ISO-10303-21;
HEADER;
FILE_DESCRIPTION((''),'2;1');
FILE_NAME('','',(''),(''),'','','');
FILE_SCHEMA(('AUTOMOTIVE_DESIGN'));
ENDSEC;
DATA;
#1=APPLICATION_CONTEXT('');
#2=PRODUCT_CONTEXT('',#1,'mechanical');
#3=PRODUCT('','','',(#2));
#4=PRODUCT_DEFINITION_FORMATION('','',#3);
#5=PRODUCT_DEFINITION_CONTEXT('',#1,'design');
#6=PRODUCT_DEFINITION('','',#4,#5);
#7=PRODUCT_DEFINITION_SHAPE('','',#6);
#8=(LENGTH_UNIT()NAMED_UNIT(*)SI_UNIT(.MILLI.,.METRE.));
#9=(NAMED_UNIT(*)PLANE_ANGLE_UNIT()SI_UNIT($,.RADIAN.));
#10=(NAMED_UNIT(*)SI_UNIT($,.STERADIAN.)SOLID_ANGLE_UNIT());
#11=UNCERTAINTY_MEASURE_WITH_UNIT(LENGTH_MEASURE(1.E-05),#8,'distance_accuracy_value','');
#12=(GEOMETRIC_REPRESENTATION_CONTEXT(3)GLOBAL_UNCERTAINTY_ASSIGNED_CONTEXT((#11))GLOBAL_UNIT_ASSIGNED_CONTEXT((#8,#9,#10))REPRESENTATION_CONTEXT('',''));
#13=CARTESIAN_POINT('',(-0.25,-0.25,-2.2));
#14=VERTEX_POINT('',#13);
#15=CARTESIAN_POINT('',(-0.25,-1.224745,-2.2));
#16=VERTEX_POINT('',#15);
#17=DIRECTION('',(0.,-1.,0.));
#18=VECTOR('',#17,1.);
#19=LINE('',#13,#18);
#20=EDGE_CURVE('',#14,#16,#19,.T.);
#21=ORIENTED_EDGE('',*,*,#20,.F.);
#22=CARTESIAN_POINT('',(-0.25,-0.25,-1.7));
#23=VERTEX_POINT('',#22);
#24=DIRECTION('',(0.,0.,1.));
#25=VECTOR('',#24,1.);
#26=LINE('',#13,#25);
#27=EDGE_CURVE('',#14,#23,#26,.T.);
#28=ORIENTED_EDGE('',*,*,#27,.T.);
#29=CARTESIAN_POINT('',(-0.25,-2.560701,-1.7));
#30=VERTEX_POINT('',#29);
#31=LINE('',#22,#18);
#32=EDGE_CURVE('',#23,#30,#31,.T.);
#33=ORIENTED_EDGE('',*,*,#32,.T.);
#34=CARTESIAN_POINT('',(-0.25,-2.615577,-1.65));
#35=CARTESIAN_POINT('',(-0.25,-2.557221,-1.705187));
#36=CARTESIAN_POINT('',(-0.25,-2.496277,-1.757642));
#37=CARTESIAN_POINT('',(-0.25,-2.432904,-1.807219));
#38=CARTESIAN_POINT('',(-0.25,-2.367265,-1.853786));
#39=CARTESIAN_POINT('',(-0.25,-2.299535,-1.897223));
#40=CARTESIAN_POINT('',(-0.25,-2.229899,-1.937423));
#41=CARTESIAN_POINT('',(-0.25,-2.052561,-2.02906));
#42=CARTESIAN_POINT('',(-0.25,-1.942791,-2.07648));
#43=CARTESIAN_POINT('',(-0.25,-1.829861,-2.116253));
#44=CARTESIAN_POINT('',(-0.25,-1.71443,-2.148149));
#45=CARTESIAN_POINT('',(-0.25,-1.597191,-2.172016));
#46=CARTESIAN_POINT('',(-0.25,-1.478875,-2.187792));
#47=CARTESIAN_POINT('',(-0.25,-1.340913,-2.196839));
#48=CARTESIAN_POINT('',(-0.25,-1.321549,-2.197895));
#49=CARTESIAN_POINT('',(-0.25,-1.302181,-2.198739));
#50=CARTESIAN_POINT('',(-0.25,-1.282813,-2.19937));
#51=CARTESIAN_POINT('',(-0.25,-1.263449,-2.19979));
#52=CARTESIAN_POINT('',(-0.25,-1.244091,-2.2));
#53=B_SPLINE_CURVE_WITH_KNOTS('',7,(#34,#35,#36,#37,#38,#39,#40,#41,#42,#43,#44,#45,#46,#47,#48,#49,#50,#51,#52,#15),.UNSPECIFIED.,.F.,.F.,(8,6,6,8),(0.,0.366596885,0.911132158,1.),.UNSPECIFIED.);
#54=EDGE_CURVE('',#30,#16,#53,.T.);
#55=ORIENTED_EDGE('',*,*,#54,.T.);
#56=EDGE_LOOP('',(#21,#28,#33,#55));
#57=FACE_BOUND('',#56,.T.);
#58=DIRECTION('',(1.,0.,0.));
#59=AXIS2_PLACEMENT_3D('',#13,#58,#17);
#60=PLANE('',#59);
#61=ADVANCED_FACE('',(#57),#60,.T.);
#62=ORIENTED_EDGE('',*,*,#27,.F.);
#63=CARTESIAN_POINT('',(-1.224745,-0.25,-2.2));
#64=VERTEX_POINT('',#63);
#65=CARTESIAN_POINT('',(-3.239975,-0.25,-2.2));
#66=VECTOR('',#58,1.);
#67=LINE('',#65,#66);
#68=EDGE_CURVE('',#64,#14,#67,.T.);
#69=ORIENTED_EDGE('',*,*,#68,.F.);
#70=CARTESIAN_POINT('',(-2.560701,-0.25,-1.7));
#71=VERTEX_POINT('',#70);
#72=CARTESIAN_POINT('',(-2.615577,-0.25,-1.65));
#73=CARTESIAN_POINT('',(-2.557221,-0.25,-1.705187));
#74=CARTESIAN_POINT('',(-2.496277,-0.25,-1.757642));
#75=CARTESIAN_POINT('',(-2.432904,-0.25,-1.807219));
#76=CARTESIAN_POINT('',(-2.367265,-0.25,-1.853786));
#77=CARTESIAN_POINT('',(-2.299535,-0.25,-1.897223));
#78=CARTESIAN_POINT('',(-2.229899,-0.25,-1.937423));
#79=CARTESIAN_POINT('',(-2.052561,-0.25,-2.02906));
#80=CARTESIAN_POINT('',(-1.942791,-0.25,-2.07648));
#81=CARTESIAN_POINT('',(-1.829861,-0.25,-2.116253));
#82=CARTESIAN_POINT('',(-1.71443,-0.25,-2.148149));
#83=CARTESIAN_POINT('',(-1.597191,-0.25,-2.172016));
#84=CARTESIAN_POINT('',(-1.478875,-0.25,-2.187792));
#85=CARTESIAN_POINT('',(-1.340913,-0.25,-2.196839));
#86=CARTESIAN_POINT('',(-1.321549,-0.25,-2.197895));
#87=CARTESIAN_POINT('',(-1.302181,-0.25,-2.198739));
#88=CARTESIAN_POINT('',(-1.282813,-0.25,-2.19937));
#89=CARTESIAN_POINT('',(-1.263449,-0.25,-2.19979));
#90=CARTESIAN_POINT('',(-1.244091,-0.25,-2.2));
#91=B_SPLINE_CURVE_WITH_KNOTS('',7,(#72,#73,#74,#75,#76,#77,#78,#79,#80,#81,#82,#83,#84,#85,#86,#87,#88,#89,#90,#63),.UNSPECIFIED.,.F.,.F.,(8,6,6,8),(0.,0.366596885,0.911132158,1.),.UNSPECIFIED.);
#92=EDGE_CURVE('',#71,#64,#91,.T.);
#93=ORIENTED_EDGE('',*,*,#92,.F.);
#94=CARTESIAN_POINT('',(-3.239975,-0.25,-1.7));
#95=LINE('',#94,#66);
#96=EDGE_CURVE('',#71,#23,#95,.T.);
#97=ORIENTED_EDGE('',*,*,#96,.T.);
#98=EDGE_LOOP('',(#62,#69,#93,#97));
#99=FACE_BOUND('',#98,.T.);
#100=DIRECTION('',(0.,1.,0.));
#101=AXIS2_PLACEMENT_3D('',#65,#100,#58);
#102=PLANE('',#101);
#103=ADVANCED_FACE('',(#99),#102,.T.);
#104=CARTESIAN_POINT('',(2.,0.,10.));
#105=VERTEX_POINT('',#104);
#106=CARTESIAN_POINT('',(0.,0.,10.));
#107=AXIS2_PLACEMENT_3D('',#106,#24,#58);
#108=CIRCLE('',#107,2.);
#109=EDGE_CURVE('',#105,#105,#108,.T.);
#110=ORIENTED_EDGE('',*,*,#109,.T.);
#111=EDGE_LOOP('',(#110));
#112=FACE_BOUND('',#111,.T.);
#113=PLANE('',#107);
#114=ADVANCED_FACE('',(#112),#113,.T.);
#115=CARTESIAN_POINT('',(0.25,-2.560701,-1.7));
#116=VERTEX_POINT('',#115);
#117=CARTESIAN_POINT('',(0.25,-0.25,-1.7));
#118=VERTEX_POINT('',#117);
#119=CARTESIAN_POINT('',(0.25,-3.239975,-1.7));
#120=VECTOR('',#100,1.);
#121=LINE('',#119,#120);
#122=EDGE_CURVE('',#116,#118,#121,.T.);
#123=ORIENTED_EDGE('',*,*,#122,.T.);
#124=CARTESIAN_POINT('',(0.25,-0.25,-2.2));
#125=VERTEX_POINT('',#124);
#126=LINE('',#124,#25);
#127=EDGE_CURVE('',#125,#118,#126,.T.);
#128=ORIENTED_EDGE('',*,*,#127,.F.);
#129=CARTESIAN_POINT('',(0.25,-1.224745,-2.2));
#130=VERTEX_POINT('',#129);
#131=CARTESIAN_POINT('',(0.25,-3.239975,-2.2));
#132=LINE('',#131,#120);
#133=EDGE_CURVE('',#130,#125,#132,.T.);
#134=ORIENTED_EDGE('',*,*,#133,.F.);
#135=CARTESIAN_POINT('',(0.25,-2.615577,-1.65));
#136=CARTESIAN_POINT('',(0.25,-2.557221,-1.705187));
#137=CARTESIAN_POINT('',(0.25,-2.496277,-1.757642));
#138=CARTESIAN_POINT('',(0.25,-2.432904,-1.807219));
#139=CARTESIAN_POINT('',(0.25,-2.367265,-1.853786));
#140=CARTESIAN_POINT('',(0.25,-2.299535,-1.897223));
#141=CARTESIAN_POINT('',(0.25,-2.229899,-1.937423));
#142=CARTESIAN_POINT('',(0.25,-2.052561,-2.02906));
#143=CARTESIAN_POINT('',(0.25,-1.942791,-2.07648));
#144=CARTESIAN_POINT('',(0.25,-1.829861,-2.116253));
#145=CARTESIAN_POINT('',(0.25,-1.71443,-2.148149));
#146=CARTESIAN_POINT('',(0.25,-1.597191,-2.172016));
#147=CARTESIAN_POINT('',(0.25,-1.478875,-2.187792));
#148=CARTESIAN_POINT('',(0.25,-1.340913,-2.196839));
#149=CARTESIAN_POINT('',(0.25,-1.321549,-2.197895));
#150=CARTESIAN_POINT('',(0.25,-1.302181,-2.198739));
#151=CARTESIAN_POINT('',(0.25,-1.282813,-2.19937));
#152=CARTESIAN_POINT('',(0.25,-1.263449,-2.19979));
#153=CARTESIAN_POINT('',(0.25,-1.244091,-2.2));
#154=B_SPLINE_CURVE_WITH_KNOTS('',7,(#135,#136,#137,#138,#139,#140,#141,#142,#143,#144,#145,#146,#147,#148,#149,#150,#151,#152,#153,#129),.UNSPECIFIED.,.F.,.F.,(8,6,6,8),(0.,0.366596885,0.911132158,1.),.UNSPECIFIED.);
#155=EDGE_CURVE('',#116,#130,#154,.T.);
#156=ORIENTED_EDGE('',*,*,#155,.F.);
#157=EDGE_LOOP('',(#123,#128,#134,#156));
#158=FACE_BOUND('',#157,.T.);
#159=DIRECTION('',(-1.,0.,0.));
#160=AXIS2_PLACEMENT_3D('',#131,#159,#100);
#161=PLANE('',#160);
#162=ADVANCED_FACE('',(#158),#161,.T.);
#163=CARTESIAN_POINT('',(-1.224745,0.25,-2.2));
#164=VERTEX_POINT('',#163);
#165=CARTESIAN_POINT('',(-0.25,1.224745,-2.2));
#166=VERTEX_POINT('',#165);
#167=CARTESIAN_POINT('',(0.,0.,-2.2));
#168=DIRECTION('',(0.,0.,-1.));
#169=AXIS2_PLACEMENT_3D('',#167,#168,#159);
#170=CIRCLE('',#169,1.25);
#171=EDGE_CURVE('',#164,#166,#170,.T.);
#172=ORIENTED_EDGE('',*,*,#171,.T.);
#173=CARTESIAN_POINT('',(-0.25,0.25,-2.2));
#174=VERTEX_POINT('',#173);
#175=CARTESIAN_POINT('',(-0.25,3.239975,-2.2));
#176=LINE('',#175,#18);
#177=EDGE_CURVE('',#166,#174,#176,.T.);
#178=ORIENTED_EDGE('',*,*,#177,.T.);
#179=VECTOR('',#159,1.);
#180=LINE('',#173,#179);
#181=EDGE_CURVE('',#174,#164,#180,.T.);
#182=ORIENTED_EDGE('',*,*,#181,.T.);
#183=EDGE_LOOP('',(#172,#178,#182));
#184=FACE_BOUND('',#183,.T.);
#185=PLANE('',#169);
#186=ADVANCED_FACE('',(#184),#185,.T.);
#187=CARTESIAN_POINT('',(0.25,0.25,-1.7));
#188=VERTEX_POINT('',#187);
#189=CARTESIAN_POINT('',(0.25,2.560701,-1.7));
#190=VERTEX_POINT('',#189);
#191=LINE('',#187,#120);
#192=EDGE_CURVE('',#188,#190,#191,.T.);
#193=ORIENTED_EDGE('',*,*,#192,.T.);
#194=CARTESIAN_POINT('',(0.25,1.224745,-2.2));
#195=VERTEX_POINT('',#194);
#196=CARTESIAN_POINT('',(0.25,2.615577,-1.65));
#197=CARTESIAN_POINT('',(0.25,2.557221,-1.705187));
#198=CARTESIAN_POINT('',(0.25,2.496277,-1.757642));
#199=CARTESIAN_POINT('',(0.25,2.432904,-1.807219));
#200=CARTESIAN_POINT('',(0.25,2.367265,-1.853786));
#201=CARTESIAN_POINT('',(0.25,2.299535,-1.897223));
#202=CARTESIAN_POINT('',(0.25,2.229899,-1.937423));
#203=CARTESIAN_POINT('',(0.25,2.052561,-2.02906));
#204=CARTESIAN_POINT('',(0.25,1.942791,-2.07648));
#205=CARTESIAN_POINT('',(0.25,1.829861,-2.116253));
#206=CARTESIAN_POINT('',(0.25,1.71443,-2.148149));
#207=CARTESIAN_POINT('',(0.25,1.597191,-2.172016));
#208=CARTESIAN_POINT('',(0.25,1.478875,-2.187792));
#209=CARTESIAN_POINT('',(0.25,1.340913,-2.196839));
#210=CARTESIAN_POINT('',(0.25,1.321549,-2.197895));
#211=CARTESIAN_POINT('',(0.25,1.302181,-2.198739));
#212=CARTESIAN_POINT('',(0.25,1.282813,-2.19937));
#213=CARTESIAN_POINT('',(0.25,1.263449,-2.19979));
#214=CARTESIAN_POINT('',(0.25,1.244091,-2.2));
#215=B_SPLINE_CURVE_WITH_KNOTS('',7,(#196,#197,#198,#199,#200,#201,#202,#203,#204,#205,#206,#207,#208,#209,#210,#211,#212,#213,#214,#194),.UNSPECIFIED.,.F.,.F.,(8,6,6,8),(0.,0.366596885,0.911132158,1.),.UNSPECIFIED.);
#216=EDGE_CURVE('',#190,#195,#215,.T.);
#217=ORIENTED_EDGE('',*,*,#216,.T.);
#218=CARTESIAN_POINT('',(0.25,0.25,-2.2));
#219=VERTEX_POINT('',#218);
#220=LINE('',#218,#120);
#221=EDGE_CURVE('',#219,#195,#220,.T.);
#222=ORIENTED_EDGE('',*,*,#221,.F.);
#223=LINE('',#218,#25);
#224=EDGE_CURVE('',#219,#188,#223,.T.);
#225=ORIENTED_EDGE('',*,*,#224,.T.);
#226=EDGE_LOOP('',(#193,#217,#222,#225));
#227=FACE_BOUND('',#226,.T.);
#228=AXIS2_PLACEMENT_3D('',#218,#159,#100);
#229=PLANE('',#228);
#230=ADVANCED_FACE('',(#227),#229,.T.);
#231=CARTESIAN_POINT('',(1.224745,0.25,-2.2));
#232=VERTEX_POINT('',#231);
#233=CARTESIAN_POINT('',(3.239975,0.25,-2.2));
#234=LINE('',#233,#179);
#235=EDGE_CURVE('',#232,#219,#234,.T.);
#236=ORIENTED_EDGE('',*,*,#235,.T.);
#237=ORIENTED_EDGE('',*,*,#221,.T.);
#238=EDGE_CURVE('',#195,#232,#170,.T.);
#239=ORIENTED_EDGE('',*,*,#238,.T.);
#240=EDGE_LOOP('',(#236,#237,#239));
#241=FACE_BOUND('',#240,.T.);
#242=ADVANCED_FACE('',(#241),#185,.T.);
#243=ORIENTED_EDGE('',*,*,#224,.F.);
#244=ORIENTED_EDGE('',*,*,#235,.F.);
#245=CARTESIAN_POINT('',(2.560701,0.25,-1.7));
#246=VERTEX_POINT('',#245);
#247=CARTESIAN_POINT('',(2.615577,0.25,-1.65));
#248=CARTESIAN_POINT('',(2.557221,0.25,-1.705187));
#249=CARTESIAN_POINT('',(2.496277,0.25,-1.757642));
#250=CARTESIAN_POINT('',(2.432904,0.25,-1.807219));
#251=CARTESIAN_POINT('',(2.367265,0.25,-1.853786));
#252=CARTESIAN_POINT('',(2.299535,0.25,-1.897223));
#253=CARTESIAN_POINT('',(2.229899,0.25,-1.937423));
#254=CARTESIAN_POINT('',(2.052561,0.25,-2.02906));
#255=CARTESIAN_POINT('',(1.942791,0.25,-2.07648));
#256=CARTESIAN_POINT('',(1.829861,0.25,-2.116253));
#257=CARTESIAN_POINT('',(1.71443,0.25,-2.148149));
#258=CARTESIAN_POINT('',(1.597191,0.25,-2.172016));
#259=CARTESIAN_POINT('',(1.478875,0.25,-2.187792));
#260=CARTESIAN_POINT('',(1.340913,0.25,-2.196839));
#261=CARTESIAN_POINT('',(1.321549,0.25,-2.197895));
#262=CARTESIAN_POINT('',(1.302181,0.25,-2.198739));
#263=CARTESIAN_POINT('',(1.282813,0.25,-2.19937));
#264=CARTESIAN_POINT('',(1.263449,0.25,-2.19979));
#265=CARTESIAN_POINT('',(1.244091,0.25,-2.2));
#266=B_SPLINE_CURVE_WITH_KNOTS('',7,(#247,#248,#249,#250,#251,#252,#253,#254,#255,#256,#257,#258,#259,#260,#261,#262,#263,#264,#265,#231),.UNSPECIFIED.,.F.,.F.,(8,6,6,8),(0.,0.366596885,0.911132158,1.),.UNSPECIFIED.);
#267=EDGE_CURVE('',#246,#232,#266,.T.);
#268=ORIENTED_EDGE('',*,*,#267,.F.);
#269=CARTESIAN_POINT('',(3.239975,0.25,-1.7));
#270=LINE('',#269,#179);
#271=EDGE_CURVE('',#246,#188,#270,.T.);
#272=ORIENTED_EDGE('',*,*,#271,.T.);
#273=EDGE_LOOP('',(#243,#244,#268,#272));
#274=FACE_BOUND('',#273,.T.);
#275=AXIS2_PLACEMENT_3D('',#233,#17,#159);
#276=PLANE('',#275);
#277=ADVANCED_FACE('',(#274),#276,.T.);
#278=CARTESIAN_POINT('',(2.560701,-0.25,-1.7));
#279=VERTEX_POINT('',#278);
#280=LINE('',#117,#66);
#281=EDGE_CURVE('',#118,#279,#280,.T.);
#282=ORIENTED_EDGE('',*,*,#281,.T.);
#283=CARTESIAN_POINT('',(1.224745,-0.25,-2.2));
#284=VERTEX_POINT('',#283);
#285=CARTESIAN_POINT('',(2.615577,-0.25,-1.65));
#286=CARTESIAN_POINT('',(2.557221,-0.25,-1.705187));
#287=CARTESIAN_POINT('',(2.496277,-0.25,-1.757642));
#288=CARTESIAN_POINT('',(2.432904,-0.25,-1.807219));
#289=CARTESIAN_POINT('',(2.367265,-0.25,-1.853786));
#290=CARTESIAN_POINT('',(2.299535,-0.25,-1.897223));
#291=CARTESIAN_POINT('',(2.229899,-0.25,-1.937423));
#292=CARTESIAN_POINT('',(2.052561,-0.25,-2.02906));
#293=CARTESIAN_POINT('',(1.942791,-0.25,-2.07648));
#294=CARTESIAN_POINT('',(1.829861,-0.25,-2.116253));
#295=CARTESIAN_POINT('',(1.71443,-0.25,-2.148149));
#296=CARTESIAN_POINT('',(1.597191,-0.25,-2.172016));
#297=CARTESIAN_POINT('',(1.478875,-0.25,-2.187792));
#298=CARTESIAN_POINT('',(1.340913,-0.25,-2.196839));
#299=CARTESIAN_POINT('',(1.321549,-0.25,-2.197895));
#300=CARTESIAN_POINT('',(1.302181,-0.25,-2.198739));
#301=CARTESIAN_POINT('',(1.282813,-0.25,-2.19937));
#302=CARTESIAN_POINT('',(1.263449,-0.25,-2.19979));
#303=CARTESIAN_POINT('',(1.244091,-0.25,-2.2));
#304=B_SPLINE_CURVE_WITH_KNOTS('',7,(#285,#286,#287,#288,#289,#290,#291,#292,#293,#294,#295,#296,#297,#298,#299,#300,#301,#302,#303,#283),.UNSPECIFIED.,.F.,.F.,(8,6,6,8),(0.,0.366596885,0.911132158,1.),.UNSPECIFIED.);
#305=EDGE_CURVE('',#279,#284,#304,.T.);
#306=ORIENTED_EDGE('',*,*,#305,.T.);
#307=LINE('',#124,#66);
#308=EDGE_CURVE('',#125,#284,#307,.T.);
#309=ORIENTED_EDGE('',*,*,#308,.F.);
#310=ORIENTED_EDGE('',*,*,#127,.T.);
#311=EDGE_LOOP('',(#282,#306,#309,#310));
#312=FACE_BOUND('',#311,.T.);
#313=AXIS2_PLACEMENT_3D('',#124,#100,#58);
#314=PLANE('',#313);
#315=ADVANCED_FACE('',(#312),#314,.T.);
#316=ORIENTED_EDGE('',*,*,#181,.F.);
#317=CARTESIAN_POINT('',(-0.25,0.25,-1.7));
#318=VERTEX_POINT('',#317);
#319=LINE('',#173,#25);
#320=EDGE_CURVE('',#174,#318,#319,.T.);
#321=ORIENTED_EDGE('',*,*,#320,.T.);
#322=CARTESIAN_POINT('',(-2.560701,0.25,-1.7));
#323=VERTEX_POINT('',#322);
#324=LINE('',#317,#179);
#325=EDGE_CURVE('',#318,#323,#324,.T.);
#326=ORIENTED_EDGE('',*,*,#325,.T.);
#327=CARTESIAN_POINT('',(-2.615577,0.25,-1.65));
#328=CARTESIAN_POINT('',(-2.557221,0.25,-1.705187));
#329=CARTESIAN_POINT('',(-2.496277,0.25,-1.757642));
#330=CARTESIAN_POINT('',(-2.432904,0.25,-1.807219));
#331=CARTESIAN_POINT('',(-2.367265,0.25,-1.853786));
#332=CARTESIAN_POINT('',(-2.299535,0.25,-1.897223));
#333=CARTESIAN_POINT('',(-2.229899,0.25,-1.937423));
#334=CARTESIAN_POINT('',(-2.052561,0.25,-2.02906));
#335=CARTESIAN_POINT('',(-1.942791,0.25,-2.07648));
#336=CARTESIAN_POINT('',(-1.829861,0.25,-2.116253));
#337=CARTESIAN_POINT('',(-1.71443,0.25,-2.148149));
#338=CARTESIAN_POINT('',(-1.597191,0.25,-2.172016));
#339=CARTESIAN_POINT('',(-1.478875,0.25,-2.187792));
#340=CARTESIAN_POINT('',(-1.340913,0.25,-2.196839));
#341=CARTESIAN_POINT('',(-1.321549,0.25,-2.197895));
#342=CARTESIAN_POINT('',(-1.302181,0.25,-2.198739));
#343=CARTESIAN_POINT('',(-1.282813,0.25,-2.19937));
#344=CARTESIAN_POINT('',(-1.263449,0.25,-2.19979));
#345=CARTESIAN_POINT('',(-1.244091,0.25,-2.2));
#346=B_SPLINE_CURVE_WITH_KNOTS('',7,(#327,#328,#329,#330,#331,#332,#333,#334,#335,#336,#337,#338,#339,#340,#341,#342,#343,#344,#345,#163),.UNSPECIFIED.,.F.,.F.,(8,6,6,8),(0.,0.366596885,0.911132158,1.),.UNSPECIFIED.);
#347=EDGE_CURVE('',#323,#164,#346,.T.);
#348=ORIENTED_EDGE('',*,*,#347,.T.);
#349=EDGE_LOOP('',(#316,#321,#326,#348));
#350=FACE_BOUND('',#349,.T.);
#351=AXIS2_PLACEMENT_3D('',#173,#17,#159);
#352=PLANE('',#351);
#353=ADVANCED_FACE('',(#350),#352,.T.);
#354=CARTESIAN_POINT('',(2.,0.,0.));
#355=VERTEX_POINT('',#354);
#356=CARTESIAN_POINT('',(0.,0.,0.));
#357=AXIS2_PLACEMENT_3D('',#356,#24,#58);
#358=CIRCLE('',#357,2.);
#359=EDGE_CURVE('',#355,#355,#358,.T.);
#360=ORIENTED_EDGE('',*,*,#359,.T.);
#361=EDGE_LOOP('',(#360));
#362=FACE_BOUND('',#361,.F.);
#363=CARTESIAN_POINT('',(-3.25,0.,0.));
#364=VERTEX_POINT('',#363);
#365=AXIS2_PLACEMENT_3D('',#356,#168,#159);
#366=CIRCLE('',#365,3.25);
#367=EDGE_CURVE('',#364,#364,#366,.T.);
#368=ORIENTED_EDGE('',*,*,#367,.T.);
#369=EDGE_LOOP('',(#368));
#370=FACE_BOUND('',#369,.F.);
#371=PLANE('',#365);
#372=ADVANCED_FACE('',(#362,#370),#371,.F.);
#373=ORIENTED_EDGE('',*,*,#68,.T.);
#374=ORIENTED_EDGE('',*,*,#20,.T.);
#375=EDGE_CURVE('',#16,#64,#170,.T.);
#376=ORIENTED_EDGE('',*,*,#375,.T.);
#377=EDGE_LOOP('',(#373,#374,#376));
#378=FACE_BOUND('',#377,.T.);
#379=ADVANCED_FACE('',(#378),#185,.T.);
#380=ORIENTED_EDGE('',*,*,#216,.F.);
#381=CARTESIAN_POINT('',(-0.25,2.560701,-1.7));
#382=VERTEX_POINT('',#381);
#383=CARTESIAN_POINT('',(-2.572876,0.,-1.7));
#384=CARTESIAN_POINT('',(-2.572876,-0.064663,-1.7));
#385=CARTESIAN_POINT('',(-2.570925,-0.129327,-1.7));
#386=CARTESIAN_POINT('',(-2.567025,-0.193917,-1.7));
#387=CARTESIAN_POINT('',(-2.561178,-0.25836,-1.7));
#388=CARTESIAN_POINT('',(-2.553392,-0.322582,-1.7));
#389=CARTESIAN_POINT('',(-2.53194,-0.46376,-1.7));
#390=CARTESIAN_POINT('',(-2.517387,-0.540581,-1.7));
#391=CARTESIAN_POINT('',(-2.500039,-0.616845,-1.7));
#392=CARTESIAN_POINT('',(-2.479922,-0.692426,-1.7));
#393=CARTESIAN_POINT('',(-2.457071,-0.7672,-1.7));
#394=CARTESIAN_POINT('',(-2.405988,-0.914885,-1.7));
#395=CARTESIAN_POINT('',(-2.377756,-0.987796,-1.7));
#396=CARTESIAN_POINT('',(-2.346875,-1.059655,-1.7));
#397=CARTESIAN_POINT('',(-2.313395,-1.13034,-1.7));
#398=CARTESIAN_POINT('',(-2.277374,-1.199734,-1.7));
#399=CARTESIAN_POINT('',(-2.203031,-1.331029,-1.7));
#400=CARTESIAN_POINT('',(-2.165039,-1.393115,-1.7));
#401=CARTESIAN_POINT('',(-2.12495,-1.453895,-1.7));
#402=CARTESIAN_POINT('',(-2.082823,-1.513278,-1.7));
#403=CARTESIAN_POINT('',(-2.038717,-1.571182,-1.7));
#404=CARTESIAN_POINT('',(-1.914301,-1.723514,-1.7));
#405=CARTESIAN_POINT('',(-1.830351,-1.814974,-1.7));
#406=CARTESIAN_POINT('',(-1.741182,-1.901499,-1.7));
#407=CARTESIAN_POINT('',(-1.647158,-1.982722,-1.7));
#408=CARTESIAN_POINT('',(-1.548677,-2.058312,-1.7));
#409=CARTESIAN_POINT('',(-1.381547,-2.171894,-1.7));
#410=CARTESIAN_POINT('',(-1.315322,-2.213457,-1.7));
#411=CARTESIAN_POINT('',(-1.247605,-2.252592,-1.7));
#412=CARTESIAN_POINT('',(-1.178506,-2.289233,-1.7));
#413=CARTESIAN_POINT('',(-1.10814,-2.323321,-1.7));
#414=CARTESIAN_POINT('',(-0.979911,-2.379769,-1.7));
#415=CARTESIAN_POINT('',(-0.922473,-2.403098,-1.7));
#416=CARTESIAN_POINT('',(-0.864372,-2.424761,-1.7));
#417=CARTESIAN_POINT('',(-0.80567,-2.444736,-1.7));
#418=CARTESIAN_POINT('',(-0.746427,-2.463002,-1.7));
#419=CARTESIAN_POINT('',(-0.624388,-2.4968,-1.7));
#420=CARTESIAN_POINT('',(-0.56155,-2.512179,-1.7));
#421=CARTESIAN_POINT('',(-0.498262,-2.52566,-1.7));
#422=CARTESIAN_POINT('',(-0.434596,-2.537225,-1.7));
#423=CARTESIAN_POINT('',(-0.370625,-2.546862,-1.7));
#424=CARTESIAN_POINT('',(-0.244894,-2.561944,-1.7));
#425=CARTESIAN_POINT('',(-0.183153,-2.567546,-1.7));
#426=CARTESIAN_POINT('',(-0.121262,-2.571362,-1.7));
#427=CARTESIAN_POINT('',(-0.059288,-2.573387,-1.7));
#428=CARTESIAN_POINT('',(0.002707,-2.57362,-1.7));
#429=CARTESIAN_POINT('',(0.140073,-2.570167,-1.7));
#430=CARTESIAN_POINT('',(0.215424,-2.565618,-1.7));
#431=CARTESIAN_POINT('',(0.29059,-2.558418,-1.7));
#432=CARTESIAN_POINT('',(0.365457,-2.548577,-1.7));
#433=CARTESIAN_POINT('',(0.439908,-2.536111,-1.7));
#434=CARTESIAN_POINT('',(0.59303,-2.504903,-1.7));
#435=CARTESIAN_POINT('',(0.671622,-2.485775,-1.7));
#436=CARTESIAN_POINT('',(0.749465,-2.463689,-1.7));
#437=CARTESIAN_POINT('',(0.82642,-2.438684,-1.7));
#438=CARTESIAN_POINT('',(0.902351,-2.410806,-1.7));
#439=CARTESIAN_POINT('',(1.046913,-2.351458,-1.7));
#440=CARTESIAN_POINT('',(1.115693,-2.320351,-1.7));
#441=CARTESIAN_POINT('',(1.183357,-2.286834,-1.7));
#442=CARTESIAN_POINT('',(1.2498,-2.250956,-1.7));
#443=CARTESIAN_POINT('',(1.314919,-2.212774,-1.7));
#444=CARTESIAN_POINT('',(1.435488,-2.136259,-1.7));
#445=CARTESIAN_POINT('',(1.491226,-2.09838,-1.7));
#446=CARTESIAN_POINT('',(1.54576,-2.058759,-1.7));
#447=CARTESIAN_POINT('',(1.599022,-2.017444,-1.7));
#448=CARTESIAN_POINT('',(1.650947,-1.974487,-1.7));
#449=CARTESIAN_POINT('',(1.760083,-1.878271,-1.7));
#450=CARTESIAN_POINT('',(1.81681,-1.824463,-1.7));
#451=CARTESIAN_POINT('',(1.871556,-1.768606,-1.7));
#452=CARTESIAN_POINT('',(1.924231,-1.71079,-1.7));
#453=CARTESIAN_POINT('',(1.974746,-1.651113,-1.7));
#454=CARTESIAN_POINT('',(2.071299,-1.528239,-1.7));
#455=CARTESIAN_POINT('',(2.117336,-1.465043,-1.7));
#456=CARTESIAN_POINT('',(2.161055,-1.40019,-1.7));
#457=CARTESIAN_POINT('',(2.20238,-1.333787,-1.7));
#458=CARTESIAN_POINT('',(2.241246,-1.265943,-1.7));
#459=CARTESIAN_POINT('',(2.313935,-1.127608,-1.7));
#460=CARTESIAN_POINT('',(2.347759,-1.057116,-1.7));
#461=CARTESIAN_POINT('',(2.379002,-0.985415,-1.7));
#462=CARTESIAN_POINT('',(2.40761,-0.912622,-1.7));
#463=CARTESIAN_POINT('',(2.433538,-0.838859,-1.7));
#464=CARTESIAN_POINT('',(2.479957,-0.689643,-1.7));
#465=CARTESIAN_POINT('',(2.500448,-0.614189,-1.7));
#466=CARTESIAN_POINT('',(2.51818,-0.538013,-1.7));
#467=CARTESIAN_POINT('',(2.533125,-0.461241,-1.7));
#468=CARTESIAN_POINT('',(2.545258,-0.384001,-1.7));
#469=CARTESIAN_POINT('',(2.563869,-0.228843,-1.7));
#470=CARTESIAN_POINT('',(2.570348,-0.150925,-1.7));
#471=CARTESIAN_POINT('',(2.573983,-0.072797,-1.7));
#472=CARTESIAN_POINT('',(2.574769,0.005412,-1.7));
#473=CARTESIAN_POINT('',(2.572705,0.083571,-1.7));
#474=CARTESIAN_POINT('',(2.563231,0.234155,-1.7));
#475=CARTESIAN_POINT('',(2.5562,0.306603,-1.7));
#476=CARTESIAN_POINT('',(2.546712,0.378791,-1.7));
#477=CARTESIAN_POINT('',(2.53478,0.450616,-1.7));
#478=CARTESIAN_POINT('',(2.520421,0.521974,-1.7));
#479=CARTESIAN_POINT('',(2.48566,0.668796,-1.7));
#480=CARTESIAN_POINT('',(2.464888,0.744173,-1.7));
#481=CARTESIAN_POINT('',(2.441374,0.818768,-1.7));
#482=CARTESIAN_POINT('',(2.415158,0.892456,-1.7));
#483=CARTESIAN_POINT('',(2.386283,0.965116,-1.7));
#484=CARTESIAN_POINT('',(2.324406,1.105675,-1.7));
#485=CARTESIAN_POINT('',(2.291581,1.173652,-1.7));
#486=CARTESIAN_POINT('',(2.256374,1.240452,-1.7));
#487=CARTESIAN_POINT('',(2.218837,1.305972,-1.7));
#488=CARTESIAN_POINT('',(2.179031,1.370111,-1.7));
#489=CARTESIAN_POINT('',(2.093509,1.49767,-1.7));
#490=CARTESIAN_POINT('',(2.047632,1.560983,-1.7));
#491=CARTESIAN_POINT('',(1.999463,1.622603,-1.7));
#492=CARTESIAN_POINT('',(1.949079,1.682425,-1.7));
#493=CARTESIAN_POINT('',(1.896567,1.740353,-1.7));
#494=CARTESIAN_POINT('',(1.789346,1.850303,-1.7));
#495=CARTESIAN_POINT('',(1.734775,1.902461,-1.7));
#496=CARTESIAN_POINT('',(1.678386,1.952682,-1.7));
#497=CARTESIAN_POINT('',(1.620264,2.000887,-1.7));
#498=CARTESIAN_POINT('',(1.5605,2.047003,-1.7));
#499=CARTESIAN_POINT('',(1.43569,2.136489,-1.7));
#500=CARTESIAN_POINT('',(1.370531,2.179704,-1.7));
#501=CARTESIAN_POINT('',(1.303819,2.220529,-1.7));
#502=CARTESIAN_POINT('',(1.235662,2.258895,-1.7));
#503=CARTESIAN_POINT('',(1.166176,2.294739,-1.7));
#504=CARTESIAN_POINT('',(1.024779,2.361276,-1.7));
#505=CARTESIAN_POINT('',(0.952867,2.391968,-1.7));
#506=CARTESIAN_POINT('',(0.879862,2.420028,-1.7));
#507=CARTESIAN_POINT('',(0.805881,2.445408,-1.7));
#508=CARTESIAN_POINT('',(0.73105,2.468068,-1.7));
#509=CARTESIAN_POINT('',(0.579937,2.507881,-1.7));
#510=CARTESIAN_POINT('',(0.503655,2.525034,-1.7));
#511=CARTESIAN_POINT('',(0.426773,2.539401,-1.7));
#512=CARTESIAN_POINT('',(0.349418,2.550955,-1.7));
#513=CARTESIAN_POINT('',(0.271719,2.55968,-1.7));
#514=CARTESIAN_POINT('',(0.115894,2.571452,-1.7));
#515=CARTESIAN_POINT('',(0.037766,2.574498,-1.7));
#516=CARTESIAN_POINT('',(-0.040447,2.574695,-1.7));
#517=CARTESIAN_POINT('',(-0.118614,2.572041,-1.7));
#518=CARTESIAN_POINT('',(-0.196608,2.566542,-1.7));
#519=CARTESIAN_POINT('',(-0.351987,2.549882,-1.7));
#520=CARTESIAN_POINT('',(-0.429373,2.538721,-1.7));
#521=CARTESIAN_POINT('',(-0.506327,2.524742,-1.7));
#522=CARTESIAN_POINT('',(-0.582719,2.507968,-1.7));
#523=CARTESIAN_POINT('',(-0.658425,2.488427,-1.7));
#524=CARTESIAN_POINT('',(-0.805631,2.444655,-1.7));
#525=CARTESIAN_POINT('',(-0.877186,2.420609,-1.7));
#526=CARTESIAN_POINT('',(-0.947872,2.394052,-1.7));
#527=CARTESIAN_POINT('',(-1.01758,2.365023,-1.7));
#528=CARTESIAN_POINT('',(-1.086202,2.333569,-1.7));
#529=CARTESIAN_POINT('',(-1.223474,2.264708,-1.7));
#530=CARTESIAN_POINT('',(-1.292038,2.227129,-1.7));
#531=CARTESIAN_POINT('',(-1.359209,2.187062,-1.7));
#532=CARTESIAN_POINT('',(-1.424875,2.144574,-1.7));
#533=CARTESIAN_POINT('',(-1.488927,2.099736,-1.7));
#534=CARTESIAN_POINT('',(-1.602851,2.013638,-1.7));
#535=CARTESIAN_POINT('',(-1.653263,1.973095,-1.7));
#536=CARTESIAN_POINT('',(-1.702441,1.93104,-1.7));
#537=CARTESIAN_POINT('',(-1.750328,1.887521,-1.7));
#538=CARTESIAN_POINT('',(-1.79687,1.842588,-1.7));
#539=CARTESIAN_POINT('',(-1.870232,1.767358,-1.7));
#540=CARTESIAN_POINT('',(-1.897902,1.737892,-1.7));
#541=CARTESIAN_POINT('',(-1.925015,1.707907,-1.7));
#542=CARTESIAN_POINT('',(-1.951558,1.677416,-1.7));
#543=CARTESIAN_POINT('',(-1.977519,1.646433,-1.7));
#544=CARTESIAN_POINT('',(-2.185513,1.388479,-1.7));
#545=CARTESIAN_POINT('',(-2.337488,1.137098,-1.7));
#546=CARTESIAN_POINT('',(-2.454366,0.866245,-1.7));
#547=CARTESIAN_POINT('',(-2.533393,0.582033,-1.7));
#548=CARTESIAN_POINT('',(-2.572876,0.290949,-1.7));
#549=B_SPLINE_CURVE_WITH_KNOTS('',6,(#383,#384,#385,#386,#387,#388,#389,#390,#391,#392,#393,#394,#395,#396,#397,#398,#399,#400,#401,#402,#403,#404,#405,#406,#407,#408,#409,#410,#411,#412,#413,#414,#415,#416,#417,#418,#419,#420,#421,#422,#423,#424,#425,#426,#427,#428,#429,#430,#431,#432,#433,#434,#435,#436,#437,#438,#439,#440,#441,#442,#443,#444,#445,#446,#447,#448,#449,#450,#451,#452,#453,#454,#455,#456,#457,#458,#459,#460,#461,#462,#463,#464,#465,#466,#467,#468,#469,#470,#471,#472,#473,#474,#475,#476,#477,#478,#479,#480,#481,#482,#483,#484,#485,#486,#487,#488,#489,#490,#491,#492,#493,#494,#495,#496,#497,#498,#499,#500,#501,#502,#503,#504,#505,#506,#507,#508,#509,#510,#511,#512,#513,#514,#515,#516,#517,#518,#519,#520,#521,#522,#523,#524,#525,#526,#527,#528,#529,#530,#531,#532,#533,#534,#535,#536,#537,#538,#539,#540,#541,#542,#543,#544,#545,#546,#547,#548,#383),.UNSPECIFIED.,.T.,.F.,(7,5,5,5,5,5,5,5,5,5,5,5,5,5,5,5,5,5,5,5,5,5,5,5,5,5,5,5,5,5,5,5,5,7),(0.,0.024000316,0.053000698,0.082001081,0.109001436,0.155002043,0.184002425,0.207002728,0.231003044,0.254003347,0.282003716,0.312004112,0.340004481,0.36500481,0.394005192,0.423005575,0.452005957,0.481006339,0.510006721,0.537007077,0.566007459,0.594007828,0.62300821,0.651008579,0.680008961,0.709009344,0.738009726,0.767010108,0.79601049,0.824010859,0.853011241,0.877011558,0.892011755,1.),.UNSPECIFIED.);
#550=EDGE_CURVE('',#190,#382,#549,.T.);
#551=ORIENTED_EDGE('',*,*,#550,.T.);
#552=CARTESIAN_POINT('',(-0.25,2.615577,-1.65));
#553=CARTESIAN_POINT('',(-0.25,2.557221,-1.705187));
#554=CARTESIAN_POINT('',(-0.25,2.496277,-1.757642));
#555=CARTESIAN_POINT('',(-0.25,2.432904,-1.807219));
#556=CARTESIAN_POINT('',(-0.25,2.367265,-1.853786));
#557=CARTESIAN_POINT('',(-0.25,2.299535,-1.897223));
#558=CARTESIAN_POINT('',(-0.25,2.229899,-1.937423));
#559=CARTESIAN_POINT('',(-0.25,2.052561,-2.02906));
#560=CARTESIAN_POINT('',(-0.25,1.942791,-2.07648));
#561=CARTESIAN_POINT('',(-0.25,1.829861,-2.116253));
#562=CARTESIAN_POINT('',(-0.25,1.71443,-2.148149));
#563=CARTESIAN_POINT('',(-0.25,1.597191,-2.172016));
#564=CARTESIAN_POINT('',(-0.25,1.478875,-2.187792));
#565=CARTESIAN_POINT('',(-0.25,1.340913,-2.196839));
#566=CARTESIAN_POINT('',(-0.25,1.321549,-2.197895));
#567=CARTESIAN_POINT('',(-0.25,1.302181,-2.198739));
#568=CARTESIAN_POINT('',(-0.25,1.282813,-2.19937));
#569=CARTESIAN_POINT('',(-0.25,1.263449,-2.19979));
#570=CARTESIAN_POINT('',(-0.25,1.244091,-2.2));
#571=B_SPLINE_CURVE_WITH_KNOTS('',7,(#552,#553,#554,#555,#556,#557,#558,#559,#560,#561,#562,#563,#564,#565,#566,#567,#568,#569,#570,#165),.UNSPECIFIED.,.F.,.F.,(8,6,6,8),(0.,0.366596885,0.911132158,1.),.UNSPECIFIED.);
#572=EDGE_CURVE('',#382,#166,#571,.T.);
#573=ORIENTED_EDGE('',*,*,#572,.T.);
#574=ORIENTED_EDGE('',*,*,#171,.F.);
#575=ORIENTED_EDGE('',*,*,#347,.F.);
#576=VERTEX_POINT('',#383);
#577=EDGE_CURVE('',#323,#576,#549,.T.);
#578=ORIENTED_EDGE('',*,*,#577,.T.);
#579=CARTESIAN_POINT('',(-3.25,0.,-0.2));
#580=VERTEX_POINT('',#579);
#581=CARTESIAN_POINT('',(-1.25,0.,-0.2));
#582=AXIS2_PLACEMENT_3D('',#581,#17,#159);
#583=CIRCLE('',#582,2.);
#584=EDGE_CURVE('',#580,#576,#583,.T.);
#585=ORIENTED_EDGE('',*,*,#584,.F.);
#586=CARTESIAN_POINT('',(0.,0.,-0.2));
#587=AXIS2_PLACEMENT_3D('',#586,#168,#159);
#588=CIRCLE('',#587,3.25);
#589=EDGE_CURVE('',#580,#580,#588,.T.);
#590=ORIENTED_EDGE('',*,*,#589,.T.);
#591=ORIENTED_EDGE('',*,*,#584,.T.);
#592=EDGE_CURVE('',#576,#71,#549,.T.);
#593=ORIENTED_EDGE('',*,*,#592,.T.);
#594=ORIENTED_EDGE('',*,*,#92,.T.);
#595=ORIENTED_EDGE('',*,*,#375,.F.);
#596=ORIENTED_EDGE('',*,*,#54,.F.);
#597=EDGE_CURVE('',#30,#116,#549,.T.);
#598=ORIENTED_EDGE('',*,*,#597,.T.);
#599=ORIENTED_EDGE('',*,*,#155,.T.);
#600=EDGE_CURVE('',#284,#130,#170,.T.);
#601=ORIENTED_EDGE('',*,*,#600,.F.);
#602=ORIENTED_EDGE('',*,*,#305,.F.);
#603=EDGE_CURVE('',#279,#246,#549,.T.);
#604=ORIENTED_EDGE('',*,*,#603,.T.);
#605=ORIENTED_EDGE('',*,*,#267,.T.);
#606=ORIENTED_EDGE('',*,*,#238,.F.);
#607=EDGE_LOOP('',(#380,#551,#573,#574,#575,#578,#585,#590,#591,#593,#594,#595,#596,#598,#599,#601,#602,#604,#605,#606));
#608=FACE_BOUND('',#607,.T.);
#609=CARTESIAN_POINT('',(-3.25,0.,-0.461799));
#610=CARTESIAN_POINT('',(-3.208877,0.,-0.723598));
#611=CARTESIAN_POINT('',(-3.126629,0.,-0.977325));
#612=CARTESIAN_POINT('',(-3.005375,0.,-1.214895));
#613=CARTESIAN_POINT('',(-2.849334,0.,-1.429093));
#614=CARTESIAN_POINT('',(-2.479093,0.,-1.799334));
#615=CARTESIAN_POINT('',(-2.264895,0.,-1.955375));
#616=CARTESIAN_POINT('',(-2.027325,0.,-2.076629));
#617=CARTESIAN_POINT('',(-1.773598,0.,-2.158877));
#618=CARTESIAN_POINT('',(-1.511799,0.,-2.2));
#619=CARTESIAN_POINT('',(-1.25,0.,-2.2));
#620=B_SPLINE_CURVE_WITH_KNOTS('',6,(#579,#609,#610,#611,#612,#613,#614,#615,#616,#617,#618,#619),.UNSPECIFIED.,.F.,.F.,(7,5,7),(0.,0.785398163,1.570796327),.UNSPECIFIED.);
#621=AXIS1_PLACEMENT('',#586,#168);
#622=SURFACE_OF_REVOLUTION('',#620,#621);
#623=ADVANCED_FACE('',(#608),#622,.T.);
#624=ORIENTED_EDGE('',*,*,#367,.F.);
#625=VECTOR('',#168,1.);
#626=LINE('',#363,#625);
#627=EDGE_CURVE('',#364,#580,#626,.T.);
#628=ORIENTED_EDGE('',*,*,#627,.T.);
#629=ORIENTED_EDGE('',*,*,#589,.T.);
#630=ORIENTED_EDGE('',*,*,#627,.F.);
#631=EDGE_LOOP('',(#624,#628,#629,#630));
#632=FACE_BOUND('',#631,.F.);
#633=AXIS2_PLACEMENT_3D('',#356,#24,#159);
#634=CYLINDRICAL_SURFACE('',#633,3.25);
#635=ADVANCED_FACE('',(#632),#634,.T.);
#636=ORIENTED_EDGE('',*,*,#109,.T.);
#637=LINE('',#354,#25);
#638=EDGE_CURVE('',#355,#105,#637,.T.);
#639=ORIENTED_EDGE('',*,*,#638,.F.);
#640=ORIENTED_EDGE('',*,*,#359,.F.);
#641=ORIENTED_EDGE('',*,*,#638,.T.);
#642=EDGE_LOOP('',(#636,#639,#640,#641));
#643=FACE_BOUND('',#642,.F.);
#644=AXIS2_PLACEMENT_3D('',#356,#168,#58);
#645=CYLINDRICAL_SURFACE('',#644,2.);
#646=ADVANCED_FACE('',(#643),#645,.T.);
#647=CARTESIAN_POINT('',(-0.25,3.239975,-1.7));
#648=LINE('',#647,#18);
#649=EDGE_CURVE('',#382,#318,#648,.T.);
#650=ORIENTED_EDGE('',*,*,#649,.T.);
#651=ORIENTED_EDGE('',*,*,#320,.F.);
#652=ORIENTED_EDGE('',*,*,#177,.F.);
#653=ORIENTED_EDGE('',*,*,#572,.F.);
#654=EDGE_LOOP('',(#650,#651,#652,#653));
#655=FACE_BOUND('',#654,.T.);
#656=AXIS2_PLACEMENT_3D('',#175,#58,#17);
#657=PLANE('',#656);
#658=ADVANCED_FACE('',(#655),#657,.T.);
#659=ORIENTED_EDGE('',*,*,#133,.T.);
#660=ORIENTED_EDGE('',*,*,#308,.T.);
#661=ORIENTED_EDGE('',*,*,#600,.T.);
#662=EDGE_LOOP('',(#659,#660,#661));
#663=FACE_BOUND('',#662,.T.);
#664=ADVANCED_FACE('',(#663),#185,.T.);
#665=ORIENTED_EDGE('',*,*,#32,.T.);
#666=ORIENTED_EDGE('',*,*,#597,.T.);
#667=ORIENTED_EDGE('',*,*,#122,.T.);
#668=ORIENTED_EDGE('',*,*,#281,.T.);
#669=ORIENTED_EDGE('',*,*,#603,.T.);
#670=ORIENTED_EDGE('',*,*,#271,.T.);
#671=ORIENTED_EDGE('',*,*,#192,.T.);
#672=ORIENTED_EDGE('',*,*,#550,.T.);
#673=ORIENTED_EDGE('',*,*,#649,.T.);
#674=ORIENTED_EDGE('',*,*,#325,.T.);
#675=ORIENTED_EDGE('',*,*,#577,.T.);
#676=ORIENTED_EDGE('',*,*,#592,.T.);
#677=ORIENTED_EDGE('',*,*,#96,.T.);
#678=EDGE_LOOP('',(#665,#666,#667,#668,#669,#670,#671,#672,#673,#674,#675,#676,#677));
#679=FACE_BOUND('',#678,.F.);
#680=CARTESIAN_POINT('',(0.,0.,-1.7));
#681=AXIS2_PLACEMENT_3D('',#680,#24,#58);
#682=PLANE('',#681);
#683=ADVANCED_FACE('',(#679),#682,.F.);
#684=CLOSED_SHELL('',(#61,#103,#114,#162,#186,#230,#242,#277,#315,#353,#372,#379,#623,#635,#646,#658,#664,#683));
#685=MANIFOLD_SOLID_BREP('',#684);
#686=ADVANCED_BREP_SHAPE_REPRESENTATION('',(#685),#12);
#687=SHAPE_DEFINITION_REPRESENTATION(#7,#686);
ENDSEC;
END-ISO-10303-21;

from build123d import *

# Parameters (mm, degrees)
SKETCH_1_R          = 2
EXTRUDE_1_DEPTH     = 10
SKETCH_2_R          = 3.25
EXTRUDE_2_DEPTH     = 2.2
FILLET_1_R          = 2
CUT_EXTRUDE_1_DEPTH = 0.5


with BuildPart() as part:
    # 草图1 → 凸台-拉伸1 (new body)
    with BuildSketch(Plane.XY):
        Circle(SKETCH_1_R)
    extrude(amount=EXTRUDE_1_DEPTH)

    # 草图2 → 凸台-拉伸2 (add)
    with BuildSketch(Plane(origin=(0, 0, 0), x_dir=(-1, 0, 0), z_dir=(0, 0, -1))):
        Circle(SKETCH_2_R)
    extrude(amount=EXTRUDE_2_DEPTH)

    # 圆角1
    fillet_1_edges = [part.edges().sort_by_distance(p)[0] for p in [
        (3.25, 0, -2.2),
    ]]
    fillet(fillet_1_edges, radius=FILLET_1_R)

    # 草图3 → 切除-拉伸1 (cut)
    with BuildSketch(Plane(origin=(0, 0, -2.2), x_dir=(-1, 0, 0), z_dir=(0, 0, -1))):
        Polygon((3.239974874, 0.25), (3.239974874, -0.25), (0.25, -0.25), (0.25, -3.239974874), (-0.25, -3.239974874), (-0.25, -0.25), (-3.239974874, -0.25), (-3.239974874, 0.25), (-0.25, 0.25), (-0.25, 3.239974874), (0.25, 3.239974874), (0.25, 0.25), align=None)
    extrude(amount=-CUT_EXTRUDE_1_DEPTH, mode=Mode.SUBTRACT)


solid = part.part
